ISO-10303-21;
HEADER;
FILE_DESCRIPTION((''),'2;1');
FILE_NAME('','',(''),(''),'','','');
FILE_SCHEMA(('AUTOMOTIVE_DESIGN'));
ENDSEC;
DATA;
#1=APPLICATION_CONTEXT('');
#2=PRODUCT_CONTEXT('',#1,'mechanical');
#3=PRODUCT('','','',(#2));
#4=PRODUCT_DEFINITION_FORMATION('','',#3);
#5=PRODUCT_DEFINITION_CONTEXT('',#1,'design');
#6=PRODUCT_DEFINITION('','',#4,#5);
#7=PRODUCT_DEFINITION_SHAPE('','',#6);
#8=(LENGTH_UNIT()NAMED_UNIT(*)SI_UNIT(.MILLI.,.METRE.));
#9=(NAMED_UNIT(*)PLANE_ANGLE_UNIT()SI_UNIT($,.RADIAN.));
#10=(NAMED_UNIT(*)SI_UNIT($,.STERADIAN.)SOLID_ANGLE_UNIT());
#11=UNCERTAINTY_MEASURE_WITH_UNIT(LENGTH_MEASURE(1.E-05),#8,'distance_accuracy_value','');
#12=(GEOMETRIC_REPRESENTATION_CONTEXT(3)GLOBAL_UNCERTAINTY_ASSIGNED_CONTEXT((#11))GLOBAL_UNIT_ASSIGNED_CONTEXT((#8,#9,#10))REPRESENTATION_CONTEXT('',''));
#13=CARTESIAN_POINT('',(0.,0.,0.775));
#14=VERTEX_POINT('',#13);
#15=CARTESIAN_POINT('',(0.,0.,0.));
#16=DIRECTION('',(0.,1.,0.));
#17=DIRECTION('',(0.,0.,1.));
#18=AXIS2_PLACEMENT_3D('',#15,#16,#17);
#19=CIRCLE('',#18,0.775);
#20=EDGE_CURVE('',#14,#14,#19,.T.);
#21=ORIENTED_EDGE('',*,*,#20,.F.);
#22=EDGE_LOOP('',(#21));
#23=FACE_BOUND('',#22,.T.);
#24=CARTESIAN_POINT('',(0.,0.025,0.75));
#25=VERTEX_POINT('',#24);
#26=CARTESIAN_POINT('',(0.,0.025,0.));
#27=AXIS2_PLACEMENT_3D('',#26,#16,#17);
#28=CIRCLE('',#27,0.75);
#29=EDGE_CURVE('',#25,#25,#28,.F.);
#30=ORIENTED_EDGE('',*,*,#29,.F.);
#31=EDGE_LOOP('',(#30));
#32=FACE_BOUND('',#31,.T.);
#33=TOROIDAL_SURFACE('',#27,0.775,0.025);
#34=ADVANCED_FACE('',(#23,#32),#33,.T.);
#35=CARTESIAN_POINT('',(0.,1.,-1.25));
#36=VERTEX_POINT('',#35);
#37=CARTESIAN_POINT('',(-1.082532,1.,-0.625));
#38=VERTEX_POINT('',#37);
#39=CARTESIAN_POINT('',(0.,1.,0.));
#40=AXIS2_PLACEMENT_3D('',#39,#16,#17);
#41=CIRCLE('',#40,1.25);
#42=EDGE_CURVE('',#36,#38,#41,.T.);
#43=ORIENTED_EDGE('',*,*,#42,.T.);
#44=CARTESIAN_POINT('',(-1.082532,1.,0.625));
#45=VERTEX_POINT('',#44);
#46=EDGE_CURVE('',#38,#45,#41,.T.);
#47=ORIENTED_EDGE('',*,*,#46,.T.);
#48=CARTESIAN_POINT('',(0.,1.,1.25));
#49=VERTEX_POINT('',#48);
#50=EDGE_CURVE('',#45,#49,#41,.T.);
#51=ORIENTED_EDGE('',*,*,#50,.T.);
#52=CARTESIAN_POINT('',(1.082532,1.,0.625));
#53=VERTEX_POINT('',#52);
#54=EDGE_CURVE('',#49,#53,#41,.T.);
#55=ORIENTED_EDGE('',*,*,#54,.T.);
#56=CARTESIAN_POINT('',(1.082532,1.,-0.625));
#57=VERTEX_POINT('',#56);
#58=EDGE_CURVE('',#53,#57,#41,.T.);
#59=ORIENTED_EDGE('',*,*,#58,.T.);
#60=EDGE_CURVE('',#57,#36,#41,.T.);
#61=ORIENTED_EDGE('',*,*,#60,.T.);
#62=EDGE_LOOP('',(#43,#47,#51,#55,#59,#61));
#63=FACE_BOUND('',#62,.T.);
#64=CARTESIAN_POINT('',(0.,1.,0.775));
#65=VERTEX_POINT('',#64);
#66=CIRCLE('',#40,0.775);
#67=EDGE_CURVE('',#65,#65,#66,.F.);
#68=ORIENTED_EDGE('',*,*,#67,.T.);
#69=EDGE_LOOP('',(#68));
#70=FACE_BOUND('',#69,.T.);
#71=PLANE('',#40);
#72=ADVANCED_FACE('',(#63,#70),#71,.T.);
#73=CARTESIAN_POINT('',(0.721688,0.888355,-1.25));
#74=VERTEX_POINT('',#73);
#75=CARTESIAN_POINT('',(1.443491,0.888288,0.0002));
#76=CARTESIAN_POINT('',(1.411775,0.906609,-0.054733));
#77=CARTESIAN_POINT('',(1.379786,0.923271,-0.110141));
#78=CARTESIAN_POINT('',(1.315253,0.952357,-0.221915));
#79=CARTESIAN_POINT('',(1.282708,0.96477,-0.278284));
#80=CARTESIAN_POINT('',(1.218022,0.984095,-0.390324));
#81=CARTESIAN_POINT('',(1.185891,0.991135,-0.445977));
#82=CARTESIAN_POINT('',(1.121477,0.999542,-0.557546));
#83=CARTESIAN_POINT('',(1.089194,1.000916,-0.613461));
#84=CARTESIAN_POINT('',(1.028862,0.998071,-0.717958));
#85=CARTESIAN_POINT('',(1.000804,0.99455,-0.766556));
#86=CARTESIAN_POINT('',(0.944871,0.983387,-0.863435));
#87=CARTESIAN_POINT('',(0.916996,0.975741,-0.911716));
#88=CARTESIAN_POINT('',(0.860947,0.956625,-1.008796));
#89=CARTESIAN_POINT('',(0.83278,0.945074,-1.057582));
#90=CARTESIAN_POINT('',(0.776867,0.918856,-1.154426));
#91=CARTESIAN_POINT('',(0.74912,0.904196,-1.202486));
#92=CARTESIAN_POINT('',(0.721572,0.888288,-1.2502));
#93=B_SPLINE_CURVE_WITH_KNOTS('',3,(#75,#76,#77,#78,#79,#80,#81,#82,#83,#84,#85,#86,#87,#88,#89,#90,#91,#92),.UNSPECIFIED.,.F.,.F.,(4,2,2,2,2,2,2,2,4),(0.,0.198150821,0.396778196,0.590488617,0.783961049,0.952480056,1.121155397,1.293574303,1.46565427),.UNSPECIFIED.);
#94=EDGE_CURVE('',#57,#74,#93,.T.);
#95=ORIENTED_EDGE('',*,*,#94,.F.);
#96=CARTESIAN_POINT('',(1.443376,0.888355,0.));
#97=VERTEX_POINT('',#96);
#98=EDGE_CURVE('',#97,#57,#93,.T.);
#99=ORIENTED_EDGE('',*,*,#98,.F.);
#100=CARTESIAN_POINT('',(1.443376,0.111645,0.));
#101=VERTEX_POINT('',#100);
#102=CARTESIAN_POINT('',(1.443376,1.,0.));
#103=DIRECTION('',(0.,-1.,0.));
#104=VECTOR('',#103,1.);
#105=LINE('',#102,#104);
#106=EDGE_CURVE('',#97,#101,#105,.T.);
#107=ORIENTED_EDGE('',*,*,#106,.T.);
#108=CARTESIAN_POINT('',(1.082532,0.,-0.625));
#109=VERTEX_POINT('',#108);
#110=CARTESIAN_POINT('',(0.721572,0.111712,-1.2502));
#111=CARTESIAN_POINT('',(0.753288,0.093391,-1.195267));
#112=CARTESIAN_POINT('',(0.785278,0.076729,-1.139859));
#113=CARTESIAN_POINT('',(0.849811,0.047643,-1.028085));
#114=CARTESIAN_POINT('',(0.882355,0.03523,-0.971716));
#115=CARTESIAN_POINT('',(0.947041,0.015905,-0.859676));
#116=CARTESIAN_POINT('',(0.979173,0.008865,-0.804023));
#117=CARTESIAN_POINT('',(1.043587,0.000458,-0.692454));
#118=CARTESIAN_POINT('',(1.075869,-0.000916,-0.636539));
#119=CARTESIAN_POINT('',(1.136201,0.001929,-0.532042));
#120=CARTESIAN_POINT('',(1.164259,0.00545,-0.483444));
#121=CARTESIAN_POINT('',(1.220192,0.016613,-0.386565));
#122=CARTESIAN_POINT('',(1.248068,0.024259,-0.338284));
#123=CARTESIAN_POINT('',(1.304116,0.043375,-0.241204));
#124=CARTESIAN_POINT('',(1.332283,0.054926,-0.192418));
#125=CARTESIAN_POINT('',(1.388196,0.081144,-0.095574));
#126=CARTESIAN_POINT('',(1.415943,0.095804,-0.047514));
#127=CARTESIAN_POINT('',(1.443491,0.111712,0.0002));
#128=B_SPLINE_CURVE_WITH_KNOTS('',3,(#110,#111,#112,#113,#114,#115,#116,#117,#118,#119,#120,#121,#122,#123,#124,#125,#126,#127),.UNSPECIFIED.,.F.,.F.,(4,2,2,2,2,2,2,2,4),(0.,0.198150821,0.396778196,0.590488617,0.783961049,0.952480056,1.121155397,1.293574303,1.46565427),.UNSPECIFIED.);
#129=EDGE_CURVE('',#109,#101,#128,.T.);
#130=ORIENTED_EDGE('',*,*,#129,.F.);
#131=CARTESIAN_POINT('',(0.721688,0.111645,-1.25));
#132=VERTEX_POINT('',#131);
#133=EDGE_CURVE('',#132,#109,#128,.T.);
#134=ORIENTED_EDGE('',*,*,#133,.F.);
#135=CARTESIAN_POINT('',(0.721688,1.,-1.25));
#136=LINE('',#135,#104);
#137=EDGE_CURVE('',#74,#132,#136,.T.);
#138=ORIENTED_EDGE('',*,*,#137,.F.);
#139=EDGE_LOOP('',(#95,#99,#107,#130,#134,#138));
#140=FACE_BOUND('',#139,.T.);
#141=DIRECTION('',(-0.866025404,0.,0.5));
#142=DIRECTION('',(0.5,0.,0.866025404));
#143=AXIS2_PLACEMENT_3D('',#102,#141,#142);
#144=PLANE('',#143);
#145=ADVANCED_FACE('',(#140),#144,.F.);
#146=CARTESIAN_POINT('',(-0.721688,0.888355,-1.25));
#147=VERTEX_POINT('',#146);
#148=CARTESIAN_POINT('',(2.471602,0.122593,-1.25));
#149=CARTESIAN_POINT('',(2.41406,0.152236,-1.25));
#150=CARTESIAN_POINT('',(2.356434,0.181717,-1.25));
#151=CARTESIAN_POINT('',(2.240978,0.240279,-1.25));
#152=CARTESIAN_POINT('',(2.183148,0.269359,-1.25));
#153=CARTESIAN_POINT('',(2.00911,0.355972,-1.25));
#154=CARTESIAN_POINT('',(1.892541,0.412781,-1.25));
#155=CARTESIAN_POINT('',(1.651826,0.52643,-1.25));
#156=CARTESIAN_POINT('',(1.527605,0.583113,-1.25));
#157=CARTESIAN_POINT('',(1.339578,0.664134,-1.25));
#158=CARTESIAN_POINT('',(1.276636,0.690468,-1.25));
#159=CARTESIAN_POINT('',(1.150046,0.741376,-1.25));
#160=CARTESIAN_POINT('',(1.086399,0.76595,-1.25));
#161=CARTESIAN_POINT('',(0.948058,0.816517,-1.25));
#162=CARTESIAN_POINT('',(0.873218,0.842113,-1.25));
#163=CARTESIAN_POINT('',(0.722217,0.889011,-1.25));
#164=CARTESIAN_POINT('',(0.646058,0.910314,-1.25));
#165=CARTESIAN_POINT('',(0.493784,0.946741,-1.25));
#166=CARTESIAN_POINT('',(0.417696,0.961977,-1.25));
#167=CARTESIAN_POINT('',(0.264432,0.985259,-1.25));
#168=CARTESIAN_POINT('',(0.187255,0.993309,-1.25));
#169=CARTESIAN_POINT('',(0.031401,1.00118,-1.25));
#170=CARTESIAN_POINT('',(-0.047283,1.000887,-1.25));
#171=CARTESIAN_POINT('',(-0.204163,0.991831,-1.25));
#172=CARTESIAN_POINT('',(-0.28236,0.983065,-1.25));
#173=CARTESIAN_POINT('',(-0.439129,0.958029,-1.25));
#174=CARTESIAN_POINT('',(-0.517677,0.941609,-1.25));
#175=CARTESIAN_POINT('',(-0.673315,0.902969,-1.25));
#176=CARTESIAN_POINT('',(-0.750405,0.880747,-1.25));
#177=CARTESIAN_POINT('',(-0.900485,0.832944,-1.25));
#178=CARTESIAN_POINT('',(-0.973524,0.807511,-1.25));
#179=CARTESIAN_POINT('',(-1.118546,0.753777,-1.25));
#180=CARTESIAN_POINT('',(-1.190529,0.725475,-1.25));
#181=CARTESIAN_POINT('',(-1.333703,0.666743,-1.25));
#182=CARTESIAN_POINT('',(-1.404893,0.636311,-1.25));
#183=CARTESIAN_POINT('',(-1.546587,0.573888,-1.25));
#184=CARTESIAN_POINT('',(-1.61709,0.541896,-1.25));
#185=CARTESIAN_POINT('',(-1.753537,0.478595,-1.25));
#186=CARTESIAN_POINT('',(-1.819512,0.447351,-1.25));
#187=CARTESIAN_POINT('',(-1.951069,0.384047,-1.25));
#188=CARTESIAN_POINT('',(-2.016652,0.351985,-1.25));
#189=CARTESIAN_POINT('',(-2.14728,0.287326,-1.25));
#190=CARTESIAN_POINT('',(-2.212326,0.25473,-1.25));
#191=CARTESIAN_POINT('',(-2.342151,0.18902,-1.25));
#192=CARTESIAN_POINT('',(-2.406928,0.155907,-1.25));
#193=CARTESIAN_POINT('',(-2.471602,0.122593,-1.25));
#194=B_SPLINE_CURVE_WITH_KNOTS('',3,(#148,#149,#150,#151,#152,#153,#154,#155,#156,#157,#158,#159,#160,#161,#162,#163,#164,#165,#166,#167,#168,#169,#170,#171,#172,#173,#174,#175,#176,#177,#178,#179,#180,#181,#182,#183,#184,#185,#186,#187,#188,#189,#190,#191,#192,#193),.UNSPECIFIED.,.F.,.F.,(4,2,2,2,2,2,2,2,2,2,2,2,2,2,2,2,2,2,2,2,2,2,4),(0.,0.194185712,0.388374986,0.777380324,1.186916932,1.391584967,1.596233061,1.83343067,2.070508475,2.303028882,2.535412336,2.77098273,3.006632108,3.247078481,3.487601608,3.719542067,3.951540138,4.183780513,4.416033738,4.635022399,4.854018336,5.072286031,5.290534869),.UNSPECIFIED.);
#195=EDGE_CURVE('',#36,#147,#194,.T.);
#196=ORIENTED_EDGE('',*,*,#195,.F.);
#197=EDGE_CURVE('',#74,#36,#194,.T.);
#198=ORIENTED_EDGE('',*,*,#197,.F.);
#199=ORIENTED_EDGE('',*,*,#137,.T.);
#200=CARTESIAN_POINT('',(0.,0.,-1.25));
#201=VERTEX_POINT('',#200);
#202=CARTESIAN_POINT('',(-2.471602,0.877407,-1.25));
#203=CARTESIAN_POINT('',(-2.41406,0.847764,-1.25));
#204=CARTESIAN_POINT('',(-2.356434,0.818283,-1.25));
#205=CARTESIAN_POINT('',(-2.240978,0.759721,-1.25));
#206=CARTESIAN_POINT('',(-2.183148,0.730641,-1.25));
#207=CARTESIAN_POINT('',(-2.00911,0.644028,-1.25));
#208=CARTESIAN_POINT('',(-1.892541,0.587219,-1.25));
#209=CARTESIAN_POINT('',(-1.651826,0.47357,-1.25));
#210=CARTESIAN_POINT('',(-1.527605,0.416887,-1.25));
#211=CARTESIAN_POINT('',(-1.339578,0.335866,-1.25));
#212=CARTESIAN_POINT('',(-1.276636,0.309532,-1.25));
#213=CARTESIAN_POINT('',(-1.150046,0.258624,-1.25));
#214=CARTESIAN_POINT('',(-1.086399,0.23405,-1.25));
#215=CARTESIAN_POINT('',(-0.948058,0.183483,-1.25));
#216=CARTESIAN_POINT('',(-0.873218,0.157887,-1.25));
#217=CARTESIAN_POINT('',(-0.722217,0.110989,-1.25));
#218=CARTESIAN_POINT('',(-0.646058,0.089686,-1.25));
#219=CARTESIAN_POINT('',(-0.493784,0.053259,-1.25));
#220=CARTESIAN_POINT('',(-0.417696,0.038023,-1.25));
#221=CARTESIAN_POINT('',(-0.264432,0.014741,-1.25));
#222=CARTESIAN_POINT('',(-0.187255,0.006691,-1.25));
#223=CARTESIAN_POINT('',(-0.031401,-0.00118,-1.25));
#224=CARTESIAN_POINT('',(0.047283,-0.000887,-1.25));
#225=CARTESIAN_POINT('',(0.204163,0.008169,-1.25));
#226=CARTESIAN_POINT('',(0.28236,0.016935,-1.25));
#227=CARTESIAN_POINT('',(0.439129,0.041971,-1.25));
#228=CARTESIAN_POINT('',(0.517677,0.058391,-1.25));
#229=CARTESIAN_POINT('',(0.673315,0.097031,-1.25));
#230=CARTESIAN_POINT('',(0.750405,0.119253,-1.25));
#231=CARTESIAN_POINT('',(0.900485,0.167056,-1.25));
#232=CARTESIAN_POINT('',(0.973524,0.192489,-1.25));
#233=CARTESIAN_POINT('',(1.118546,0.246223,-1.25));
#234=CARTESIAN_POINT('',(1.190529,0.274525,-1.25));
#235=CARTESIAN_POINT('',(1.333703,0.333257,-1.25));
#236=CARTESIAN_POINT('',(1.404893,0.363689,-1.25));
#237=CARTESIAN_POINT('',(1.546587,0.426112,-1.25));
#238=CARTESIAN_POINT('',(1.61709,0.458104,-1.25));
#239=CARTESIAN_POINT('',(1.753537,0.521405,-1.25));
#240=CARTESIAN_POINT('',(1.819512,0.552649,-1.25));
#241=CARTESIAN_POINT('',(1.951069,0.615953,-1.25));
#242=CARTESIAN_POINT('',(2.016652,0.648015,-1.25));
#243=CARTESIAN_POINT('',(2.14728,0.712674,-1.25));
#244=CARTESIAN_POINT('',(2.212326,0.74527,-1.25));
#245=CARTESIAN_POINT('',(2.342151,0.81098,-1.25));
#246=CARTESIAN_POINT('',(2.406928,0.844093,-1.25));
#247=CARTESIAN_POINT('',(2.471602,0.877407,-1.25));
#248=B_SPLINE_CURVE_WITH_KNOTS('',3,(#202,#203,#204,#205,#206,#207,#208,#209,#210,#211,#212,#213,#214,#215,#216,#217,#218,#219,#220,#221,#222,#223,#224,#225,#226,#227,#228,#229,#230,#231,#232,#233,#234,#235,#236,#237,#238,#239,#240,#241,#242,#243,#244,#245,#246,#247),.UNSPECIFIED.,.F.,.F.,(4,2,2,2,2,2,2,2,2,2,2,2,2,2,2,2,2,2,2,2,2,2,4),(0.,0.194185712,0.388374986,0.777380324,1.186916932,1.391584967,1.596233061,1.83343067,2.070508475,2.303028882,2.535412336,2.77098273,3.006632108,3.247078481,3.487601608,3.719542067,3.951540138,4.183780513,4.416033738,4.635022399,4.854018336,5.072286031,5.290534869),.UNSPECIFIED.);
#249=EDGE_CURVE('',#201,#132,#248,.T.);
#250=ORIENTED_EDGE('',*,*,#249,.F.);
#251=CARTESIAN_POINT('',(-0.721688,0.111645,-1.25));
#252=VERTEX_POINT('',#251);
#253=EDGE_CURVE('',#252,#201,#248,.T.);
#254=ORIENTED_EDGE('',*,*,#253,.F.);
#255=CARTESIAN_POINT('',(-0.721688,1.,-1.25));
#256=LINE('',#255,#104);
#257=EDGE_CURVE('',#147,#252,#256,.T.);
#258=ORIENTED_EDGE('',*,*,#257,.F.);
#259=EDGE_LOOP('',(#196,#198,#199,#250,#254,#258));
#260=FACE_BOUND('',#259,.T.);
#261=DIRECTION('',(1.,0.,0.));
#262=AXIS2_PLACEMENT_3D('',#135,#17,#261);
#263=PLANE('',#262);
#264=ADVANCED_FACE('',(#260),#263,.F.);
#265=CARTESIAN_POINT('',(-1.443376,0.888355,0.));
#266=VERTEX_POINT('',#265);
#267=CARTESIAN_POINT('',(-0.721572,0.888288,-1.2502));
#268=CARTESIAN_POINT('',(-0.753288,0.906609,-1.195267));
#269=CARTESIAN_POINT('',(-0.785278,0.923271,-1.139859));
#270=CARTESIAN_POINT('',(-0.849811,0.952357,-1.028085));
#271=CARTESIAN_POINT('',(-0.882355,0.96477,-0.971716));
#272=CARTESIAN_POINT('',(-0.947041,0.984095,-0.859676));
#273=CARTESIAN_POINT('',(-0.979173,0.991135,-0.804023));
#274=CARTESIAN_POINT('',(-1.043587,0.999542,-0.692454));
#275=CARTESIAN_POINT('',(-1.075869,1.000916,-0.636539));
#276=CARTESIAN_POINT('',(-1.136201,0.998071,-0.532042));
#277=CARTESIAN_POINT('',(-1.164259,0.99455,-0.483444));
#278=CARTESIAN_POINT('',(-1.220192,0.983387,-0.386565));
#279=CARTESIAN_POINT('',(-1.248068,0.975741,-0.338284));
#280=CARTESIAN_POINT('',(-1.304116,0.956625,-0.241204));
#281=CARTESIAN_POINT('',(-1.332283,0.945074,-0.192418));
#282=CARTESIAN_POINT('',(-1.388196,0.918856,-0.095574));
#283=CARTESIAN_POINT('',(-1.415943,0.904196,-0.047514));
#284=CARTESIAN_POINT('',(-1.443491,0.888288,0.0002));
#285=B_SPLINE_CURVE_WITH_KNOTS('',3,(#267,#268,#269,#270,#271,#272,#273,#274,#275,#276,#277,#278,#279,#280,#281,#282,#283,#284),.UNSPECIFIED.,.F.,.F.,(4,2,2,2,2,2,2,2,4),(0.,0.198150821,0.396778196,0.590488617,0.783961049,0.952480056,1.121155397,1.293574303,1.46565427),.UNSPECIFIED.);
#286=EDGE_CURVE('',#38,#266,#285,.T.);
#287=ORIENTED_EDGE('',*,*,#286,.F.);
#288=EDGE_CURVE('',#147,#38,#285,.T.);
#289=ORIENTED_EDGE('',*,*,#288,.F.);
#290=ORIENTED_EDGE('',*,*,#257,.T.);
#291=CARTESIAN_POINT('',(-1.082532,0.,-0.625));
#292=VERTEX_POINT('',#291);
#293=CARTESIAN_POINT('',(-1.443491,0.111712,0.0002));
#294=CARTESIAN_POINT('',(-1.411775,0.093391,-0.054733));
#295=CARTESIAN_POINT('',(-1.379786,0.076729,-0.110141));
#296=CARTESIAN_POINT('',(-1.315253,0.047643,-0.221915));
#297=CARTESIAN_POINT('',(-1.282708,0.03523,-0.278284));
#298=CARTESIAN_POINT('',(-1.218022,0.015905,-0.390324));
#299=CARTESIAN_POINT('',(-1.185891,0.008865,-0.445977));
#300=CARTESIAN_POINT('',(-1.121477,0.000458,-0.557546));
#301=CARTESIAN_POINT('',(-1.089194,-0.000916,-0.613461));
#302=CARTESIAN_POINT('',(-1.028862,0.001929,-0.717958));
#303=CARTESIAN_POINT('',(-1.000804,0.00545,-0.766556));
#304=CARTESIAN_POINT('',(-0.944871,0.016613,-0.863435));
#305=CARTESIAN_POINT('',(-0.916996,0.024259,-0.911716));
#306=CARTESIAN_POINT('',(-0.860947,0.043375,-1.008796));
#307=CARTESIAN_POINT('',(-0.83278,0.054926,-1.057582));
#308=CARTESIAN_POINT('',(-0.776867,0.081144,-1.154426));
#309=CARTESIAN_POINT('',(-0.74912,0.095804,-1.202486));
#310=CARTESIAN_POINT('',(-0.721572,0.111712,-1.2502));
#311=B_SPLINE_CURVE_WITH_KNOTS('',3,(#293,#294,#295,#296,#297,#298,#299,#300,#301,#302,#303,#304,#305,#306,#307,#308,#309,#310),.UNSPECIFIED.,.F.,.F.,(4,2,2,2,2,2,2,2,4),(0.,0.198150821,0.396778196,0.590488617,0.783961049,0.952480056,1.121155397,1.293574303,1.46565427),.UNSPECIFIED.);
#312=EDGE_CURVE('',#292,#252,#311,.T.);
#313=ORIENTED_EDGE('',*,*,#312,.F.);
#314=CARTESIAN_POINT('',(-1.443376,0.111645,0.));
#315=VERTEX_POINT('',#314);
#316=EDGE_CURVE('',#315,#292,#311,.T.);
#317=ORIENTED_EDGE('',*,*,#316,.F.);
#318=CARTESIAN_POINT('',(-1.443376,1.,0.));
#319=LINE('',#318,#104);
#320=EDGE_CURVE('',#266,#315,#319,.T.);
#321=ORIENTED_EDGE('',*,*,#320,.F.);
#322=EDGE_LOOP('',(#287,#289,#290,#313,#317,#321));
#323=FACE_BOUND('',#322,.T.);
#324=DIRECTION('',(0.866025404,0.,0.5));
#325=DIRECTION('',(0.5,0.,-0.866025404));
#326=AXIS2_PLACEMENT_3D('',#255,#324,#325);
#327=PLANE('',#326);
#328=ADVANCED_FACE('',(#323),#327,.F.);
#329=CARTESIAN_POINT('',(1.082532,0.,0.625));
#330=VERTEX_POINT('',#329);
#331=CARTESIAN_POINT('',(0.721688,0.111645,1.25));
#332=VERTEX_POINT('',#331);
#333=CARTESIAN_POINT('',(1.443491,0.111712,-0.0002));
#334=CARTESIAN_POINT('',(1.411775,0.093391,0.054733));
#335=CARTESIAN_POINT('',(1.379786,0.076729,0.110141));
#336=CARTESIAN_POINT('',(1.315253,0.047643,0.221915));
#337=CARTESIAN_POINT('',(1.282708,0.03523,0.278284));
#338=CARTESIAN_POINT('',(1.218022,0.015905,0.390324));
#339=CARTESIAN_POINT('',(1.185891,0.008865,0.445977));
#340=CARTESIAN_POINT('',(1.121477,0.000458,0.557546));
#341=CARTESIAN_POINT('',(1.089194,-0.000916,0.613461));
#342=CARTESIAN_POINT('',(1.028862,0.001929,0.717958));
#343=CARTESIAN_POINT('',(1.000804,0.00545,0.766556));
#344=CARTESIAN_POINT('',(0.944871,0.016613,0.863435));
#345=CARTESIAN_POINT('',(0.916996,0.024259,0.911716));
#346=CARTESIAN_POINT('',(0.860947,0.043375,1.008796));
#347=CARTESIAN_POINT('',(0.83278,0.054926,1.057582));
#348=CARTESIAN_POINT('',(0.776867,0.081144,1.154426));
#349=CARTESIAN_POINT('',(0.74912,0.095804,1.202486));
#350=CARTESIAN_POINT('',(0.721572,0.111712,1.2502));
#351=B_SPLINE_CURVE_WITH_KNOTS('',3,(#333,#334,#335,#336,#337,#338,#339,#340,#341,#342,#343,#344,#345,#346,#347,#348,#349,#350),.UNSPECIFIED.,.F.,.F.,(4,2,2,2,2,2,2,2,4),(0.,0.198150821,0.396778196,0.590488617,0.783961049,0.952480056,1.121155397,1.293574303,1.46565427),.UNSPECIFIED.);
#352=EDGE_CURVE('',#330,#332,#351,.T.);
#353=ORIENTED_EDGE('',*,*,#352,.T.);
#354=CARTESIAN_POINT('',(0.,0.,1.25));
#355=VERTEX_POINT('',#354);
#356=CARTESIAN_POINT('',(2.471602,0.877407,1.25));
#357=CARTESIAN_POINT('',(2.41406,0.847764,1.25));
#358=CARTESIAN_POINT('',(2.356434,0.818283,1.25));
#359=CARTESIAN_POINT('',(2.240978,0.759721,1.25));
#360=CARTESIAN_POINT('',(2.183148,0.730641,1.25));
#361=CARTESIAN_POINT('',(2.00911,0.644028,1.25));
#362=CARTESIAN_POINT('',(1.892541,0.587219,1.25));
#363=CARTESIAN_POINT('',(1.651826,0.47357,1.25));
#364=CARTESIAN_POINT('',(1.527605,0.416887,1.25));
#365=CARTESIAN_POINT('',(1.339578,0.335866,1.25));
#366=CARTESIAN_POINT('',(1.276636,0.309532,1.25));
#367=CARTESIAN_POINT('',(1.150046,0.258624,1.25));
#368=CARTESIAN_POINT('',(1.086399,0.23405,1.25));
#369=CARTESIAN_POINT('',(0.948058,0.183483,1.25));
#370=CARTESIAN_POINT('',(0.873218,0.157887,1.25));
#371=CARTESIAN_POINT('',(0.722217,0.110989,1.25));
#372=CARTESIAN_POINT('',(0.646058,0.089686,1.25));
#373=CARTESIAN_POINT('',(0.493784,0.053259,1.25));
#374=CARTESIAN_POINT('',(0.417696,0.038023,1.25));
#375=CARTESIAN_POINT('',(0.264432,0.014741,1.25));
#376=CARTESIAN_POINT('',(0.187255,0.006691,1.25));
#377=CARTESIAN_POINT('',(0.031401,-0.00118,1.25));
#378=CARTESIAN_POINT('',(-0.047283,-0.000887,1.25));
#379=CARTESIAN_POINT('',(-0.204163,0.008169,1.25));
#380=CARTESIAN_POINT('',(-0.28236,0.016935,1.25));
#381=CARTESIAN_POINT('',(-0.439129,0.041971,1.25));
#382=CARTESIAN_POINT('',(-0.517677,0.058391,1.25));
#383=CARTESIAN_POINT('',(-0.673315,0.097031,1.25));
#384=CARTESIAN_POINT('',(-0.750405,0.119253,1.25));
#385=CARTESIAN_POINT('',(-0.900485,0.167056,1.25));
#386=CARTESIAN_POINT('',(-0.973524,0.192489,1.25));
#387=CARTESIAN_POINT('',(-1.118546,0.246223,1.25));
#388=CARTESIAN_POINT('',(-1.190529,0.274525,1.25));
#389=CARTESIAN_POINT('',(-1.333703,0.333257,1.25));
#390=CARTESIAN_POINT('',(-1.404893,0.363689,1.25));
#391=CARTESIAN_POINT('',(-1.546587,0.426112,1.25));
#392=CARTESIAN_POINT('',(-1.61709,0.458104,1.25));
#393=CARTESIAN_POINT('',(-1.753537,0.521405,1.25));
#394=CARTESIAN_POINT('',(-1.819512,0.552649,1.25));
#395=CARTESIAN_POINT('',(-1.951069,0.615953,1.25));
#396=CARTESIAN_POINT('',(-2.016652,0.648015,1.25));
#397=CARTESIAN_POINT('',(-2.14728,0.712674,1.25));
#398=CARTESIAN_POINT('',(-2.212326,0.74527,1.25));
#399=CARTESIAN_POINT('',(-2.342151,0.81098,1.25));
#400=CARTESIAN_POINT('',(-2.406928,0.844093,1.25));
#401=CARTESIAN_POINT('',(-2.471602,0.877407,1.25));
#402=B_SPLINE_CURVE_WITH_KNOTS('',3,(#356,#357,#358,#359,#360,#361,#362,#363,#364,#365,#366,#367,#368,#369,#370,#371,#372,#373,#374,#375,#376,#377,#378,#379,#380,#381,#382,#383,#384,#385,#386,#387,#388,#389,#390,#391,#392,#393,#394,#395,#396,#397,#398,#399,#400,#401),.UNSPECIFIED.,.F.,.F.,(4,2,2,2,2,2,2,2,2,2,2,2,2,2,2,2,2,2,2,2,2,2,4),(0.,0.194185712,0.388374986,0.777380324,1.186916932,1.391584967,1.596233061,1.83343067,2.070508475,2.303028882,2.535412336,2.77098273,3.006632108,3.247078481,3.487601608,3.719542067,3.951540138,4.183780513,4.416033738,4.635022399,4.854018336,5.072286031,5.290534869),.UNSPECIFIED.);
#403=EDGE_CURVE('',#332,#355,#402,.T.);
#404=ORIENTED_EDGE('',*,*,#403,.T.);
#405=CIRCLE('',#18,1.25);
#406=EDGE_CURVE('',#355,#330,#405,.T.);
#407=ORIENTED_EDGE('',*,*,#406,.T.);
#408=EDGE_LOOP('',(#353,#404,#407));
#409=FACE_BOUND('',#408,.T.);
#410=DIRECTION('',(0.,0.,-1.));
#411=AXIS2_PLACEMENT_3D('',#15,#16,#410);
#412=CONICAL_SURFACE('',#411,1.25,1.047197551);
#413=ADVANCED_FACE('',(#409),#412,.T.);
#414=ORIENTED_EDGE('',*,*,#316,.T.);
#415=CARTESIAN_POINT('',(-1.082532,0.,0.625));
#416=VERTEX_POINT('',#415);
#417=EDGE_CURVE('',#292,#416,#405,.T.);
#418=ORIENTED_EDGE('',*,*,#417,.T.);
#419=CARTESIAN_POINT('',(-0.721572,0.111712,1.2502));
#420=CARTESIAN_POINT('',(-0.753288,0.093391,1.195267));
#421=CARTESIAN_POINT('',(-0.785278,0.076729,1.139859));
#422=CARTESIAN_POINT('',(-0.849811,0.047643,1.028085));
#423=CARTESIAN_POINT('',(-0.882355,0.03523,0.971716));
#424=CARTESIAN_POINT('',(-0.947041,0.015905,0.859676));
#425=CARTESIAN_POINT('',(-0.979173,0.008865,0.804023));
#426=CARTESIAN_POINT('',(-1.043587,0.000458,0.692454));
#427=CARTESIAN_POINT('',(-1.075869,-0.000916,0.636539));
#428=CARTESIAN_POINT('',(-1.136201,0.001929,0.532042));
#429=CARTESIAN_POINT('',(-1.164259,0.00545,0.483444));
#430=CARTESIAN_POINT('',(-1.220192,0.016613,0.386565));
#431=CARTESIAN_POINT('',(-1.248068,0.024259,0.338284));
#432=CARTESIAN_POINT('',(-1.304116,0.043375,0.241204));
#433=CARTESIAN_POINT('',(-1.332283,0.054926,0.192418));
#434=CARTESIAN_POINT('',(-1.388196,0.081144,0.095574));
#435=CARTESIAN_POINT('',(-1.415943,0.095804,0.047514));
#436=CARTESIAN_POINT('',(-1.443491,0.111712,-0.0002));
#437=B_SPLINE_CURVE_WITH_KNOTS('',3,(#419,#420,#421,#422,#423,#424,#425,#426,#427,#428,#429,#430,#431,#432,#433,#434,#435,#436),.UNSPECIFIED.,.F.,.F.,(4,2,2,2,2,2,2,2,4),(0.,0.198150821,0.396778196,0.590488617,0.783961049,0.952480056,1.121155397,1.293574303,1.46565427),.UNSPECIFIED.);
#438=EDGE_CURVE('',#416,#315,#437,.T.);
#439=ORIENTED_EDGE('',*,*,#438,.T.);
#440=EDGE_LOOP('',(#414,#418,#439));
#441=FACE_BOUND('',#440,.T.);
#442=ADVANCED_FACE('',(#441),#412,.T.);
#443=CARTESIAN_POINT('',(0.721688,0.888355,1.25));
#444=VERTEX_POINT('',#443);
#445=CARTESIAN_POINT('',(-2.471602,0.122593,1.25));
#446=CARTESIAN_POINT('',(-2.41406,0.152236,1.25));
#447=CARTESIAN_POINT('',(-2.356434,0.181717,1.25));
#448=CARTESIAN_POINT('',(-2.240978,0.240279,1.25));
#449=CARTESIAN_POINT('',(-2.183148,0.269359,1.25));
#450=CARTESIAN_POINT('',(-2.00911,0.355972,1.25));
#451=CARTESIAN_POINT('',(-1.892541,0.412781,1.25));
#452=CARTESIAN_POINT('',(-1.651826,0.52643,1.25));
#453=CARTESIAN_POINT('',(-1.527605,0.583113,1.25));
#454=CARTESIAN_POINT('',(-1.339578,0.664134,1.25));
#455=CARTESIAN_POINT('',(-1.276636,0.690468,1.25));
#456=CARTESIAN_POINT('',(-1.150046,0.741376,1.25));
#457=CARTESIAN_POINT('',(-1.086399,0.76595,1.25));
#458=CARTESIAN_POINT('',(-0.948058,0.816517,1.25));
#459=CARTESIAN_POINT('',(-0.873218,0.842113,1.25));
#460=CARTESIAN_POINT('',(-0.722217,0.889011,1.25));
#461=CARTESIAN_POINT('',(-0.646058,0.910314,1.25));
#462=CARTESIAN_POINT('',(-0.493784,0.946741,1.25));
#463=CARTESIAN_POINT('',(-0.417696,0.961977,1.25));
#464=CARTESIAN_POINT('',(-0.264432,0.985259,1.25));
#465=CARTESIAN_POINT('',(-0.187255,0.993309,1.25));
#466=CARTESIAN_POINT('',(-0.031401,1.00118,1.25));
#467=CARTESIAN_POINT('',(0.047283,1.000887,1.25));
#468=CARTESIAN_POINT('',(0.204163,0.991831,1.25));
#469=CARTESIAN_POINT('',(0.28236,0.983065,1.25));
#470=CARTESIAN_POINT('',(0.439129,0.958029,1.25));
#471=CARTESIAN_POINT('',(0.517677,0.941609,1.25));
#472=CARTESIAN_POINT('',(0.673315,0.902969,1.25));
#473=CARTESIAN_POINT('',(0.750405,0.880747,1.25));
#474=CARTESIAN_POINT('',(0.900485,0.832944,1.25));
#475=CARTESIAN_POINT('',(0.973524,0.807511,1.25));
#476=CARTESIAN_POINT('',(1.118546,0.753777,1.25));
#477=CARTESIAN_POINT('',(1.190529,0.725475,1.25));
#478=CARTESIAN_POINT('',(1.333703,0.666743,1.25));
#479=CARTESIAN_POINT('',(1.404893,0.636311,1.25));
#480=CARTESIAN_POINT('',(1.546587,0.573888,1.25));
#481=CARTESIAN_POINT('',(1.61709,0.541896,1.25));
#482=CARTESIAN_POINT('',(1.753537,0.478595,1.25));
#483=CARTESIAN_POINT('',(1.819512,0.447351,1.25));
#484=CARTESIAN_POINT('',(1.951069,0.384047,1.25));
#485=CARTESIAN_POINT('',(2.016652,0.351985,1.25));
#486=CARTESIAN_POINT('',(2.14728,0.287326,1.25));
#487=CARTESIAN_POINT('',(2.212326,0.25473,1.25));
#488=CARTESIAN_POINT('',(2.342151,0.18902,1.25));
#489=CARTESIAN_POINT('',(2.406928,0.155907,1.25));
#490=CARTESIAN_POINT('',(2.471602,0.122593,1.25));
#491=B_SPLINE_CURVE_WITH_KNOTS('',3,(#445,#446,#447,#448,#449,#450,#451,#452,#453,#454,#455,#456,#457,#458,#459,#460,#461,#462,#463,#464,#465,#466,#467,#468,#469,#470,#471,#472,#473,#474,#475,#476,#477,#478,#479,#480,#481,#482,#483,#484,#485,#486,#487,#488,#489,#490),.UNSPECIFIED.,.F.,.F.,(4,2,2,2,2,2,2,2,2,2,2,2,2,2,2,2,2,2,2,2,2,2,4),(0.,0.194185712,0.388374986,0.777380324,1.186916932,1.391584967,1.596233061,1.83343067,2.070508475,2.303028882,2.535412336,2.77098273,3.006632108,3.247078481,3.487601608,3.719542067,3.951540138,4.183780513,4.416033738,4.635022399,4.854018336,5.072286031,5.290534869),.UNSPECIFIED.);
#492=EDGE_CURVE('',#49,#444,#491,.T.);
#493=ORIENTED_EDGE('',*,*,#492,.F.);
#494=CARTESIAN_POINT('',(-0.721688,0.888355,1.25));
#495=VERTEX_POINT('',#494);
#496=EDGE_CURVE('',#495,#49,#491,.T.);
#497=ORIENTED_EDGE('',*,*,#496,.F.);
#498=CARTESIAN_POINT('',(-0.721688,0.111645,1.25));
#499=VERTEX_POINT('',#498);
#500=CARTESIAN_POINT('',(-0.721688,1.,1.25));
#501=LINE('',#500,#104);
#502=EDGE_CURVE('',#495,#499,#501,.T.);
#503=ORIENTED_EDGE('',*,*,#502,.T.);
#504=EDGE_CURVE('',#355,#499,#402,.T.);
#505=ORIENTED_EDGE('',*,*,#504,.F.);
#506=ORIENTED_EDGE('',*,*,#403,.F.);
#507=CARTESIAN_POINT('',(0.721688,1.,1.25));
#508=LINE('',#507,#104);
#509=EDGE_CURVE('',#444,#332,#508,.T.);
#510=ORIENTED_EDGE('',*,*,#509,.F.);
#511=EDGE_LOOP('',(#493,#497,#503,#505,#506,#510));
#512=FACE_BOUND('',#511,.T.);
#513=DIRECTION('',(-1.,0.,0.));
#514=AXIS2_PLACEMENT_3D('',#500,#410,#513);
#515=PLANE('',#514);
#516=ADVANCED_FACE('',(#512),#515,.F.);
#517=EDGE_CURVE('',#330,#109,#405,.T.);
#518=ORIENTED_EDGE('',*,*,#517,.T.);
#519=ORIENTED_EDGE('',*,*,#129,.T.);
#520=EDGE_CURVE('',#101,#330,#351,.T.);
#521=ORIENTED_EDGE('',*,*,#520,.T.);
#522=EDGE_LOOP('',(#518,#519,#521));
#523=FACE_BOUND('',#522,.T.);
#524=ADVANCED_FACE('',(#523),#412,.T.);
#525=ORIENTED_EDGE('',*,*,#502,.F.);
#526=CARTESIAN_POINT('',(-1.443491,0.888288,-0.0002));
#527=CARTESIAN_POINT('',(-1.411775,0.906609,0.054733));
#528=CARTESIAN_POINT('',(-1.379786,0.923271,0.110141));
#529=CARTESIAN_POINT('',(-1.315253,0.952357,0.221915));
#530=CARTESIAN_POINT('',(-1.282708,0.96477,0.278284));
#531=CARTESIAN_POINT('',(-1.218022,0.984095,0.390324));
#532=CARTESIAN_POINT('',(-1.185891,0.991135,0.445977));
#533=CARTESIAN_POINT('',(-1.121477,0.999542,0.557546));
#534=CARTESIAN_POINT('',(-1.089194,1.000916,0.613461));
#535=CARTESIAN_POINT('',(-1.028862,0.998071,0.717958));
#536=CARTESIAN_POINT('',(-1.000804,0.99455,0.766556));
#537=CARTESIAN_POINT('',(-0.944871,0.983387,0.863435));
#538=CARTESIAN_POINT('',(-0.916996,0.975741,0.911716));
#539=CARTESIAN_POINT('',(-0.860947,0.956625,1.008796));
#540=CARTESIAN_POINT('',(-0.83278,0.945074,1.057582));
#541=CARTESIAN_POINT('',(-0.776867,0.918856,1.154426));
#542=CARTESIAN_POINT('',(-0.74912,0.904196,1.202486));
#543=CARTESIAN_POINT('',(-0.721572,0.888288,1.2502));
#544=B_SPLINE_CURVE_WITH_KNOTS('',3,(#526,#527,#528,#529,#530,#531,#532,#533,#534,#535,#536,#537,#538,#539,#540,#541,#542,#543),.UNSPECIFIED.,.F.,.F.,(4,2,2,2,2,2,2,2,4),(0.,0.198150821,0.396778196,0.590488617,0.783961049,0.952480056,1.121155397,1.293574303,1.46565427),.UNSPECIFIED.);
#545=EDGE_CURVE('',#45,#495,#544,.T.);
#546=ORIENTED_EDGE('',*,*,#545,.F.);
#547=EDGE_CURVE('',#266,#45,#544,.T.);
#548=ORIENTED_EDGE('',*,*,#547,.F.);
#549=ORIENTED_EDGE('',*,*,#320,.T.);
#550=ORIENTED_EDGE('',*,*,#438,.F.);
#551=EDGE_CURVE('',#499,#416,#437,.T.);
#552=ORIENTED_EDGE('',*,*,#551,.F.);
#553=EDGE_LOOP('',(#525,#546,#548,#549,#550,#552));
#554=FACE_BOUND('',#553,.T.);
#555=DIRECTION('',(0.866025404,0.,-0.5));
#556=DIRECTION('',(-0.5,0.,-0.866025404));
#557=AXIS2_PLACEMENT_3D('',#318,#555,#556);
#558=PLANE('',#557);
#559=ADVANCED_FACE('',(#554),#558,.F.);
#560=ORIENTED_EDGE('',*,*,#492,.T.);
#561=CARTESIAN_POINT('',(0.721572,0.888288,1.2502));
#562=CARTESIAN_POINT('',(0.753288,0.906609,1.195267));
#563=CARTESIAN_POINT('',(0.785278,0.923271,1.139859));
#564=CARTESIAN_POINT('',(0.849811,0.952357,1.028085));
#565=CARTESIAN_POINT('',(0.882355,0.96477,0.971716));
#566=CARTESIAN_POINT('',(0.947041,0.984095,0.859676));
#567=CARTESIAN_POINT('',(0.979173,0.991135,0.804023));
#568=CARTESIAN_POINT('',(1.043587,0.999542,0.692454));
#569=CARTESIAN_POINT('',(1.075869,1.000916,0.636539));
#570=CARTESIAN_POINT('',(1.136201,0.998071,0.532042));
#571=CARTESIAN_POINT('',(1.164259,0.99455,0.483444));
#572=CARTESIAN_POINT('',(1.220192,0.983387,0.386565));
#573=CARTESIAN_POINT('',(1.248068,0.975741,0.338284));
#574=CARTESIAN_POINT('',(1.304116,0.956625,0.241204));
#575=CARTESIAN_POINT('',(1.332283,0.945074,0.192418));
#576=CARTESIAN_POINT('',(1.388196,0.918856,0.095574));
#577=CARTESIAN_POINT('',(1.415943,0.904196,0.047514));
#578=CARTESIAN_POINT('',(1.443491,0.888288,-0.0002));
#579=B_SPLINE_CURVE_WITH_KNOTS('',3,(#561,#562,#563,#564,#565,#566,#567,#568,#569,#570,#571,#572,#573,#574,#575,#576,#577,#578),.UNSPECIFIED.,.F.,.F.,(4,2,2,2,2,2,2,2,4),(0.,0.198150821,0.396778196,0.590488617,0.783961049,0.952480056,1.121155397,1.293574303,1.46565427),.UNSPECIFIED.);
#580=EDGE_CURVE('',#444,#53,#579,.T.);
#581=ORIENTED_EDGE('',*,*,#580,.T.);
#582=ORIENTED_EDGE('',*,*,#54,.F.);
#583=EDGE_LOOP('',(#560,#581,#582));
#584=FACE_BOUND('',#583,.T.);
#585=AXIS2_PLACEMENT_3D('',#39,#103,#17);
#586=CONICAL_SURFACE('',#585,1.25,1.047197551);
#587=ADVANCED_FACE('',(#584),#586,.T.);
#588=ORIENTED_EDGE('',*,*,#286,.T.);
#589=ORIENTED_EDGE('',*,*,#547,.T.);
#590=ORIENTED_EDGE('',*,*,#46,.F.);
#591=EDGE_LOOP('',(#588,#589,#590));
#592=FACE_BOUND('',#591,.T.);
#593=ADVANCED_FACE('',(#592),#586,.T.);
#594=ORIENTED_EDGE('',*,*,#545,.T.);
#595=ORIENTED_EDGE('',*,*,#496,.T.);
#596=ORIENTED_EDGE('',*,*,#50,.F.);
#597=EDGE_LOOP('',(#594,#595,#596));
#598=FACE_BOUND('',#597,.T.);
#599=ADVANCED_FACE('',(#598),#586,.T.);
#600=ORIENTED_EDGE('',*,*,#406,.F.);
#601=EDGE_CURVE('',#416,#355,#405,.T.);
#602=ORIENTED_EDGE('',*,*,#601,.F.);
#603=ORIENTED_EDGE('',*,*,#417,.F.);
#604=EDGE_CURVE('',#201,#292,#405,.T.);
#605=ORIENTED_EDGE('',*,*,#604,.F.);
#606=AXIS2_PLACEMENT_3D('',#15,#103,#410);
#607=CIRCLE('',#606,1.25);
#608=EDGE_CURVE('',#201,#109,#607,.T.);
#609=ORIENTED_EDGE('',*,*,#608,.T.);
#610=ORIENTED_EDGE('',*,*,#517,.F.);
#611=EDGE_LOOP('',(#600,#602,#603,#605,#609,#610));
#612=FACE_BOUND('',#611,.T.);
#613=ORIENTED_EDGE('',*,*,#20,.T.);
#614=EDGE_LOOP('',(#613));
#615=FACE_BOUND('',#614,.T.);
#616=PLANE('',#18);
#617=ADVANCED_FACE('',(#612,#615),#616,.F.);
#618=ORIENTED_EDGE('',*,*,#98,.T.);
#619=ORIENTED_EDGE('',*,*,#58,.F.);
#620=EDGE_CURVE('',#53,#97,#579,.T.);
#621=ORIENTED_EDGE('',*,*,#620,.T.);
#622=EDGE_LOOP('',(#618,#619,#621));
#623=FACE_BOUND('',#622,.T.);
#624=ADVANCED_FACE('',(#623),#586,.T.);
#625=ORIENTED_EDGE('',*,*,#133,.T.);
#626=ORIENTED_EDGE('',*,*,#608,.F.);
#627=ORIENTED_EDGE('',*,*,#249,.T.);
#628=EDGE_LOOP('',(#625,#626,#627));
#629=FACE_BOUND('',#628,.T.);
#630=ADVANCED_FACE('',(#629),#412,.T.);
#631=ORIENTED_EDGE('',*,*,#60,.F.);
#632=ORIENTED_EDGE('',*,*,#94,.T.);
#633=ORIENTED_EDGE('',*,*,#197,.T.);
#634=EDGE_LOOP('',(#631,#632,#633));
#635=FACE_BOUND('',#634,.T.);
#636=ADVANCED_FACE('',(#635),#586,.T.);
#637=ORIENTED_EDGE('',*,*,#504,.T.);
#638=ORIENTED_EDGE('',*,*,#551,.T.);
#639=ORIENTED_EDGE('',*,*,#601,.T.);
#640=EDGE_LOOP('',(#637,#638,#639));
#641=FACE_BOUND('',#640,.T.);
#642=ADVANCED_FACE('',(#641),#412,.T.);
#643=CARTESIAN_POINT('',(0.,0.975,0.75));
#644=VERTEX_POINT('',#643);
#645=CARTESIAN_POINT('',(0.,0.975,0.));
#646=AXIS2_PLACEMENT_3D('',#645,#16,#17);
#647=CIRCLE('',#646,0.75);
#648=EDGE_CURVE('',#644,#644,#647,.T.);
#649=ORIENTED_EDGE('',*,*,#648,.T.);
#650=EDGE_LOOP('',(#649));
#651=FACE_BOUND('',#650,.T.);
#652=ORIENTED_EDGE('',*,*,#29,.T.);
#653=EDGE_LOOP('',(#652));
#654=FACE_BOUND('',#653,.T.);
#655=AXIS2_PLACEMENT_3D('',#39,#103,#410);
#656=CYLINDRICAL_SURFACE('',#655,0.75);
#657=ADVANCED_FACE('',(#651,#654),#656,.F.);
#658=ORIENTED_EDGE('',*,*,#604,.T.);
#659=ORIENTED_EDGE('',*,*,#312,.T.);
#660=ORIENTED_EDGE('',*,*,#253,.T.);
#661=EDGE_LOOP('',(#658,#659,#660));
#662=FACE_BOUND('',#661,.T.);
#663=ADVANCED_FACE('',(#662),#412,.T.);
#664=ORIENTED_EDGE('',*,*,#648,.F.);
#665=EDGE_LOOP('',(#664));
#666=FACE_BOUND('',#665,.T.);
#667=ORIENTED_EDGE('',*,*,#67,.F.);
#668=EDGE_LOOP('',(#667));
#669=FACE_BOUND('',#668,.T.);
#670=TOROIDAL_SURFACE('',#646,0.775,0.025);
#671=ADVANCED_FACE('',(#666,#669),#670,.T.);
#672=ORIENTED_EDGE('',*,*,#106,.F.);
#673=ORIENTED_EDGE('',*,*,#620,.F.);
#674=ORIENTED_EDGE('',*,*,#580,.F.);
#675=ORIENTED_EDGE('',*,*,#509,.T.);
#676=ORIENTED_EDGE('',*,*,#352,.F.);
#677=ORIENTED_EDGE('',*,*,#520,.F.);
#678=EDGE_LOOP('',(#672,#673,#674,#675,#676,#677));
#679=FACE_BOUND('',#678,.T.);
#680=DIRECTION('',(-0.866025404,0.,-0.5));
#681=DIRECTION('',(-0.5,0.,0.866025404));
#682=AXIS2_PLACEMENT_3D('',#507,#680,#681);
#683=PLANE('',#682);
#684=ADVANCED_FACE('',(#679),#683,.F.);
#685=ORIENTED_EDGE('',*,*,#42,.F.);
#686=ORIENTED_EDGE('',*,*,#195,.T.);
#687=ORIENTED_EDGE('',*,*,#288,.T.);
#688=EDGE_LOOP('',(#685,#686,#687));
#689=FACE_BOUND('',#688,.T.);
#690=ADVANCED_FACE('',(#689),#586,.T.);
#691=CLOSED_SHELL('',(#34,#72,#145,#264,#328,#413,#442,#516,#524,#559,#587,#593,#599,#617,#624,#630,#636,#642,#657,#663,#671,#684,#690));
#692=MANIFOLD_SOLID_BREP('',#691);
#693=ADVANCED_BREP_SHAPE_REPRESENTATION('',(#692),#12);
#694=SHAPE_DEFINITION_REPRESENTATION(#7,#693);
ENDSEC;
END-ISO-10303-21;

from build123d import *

# Parameters (mm, degrees)
SKETCH1_R           = 0.75
BOSS_EXTRUDE3_DEPTH = 1
SKETCH3_OUTSIDE_W   = 9.14
SKETCH3_OUTSIDE_H   = 8.754
SKETCH3_OUTSIDE_R   = 1.25
CUT_EXTRUDE1_DEPTH  = 1
CUT_EXTRUDE1_DRAFT  = -60
SKETCH4_OUTSIDE_W   = 9.14
SKETCH4_OUTSIDE_H   = 8.754
SKETCH4_OUTSIDE_R   = 1.25
CUT_EXTRUDE2_DEPTH  = 1
CUT_EXTRUDE2_DRAFT  = -60
FILLET1_R           = 0.025


with BuildPart() as part:
    # Sketch1 → Boss-Extrude3 (new body)
    with BuildSketch(Plane(origin=(0, 0, 0), x_dir=(1, 0, 0), z_dir=(0, 1, 0))):
        Polygon((-1.443375673, 0), (-0.721687836, -1.25), (0.721687836, -1.25), (1.443375673, 0), (0.721687836, 1.25), (-0.721687836, 1.25), align=None)
        with Locations(Location((0, 0, 0), (0, 0, 270))):
            Circle(SKETCH1_R, mode=Mode.SUBTRACT)
    extrude(amount=BOSS_EXTRUDE3_DEPTH)


with BuildPart() as cut_extrude1_tool:
    # Sketch3 outside → Cut-Extrude1 (with draft: the straight prism first)
    with BuildSketch(Plane(origin=(0, 1, 0), x_dir=(1, 0, 0), z_dir=(0, 1, 0))):
        Rectangle(SKETCH3_OUTSIDE_W, SKETCH3_OUTSIDE_H)
        Circle(SKETCH3_OUTSIDE_R, mode=Mode.SUBTRACT)
    extrude(amount=-CUT_EXTRUDE1_DEPTH)
    # Cut-Extrude1: the draft: its side faces are tilted about the plane it starts from
    cut_extrude1_sides = [cut_extrude1_tool.faces().sort_by_distance(p)[0] for p in [
        (0, 0.5, 4.377),
        (4.57, 0.5, 0),
        (0, 0.5, -4.377),
        (-4.57, 0.5, 0),
        (-1.25, 0.5, 0),
    ]]
    draft(cut_extrude1_sides, Plane(origin=(0, 1, 0), x_dir=(1, 0, 0), z_dir=(0, 1, 0)), CUT_EXTRUDE1_DRAFT)


with BuildPart() as part_1:
    add(part.part)

    # Cut-Extrude1: cut by cut_extrude1_tool
    add(cut_extrude1_tool.part, mode=Mode.SUBTRACT)


with BuildPart() as cut_extrude2_tool:
    # Sketch4 outside → Cut-Extrude2 (with draft: the straight prism first)
    with BuildSketch(Plane.XZ):
        Rectangle(SKETCH4_OUTSIDE_W, SKETCH4_OUTSIDE_H)
        Circle(SKETCH4_OUTSIDE_R, mode=Mode.SUBTRACT)
    extrude(amount=-CUT_EXTRUDE2_DEPTH)
    # Cut-Extrude2: the draft: its side faces are tilted about the plane it starts from
    cut_extrude2_sides = [cut_extrude2_tool.faces().sort_by_distance(p)[0] for p in [
        (0, 0.5, -4.377),
        (4.57, 0.5, 0),
        (0, 0.5, 4.377),
        (-4.57, 0.5, 0),
        (-1.25, 0.5, 0),
    ]]
    draft(cut_extrude2_sides, Plane.XZ, CUT_EXTRUDE2_DRAFT)


with BuildPart() as part_2:
    add(part_1.part)

    # Cut-Extrude2: cut by cut_extrude2_tool
    add(cut_extrude2_tool.part, mode=Mode.SUBTRACT)

    # Fillet1
    fillet1_edges = [part_2.edges().sort_by_distance(p)[0] for p in [
        (0, 0, -0.75),
        (0, 1, -0.75),
    ]]
    fillet(fillet1_edges, radius=FILLET1_R)


solid = part_2.part
